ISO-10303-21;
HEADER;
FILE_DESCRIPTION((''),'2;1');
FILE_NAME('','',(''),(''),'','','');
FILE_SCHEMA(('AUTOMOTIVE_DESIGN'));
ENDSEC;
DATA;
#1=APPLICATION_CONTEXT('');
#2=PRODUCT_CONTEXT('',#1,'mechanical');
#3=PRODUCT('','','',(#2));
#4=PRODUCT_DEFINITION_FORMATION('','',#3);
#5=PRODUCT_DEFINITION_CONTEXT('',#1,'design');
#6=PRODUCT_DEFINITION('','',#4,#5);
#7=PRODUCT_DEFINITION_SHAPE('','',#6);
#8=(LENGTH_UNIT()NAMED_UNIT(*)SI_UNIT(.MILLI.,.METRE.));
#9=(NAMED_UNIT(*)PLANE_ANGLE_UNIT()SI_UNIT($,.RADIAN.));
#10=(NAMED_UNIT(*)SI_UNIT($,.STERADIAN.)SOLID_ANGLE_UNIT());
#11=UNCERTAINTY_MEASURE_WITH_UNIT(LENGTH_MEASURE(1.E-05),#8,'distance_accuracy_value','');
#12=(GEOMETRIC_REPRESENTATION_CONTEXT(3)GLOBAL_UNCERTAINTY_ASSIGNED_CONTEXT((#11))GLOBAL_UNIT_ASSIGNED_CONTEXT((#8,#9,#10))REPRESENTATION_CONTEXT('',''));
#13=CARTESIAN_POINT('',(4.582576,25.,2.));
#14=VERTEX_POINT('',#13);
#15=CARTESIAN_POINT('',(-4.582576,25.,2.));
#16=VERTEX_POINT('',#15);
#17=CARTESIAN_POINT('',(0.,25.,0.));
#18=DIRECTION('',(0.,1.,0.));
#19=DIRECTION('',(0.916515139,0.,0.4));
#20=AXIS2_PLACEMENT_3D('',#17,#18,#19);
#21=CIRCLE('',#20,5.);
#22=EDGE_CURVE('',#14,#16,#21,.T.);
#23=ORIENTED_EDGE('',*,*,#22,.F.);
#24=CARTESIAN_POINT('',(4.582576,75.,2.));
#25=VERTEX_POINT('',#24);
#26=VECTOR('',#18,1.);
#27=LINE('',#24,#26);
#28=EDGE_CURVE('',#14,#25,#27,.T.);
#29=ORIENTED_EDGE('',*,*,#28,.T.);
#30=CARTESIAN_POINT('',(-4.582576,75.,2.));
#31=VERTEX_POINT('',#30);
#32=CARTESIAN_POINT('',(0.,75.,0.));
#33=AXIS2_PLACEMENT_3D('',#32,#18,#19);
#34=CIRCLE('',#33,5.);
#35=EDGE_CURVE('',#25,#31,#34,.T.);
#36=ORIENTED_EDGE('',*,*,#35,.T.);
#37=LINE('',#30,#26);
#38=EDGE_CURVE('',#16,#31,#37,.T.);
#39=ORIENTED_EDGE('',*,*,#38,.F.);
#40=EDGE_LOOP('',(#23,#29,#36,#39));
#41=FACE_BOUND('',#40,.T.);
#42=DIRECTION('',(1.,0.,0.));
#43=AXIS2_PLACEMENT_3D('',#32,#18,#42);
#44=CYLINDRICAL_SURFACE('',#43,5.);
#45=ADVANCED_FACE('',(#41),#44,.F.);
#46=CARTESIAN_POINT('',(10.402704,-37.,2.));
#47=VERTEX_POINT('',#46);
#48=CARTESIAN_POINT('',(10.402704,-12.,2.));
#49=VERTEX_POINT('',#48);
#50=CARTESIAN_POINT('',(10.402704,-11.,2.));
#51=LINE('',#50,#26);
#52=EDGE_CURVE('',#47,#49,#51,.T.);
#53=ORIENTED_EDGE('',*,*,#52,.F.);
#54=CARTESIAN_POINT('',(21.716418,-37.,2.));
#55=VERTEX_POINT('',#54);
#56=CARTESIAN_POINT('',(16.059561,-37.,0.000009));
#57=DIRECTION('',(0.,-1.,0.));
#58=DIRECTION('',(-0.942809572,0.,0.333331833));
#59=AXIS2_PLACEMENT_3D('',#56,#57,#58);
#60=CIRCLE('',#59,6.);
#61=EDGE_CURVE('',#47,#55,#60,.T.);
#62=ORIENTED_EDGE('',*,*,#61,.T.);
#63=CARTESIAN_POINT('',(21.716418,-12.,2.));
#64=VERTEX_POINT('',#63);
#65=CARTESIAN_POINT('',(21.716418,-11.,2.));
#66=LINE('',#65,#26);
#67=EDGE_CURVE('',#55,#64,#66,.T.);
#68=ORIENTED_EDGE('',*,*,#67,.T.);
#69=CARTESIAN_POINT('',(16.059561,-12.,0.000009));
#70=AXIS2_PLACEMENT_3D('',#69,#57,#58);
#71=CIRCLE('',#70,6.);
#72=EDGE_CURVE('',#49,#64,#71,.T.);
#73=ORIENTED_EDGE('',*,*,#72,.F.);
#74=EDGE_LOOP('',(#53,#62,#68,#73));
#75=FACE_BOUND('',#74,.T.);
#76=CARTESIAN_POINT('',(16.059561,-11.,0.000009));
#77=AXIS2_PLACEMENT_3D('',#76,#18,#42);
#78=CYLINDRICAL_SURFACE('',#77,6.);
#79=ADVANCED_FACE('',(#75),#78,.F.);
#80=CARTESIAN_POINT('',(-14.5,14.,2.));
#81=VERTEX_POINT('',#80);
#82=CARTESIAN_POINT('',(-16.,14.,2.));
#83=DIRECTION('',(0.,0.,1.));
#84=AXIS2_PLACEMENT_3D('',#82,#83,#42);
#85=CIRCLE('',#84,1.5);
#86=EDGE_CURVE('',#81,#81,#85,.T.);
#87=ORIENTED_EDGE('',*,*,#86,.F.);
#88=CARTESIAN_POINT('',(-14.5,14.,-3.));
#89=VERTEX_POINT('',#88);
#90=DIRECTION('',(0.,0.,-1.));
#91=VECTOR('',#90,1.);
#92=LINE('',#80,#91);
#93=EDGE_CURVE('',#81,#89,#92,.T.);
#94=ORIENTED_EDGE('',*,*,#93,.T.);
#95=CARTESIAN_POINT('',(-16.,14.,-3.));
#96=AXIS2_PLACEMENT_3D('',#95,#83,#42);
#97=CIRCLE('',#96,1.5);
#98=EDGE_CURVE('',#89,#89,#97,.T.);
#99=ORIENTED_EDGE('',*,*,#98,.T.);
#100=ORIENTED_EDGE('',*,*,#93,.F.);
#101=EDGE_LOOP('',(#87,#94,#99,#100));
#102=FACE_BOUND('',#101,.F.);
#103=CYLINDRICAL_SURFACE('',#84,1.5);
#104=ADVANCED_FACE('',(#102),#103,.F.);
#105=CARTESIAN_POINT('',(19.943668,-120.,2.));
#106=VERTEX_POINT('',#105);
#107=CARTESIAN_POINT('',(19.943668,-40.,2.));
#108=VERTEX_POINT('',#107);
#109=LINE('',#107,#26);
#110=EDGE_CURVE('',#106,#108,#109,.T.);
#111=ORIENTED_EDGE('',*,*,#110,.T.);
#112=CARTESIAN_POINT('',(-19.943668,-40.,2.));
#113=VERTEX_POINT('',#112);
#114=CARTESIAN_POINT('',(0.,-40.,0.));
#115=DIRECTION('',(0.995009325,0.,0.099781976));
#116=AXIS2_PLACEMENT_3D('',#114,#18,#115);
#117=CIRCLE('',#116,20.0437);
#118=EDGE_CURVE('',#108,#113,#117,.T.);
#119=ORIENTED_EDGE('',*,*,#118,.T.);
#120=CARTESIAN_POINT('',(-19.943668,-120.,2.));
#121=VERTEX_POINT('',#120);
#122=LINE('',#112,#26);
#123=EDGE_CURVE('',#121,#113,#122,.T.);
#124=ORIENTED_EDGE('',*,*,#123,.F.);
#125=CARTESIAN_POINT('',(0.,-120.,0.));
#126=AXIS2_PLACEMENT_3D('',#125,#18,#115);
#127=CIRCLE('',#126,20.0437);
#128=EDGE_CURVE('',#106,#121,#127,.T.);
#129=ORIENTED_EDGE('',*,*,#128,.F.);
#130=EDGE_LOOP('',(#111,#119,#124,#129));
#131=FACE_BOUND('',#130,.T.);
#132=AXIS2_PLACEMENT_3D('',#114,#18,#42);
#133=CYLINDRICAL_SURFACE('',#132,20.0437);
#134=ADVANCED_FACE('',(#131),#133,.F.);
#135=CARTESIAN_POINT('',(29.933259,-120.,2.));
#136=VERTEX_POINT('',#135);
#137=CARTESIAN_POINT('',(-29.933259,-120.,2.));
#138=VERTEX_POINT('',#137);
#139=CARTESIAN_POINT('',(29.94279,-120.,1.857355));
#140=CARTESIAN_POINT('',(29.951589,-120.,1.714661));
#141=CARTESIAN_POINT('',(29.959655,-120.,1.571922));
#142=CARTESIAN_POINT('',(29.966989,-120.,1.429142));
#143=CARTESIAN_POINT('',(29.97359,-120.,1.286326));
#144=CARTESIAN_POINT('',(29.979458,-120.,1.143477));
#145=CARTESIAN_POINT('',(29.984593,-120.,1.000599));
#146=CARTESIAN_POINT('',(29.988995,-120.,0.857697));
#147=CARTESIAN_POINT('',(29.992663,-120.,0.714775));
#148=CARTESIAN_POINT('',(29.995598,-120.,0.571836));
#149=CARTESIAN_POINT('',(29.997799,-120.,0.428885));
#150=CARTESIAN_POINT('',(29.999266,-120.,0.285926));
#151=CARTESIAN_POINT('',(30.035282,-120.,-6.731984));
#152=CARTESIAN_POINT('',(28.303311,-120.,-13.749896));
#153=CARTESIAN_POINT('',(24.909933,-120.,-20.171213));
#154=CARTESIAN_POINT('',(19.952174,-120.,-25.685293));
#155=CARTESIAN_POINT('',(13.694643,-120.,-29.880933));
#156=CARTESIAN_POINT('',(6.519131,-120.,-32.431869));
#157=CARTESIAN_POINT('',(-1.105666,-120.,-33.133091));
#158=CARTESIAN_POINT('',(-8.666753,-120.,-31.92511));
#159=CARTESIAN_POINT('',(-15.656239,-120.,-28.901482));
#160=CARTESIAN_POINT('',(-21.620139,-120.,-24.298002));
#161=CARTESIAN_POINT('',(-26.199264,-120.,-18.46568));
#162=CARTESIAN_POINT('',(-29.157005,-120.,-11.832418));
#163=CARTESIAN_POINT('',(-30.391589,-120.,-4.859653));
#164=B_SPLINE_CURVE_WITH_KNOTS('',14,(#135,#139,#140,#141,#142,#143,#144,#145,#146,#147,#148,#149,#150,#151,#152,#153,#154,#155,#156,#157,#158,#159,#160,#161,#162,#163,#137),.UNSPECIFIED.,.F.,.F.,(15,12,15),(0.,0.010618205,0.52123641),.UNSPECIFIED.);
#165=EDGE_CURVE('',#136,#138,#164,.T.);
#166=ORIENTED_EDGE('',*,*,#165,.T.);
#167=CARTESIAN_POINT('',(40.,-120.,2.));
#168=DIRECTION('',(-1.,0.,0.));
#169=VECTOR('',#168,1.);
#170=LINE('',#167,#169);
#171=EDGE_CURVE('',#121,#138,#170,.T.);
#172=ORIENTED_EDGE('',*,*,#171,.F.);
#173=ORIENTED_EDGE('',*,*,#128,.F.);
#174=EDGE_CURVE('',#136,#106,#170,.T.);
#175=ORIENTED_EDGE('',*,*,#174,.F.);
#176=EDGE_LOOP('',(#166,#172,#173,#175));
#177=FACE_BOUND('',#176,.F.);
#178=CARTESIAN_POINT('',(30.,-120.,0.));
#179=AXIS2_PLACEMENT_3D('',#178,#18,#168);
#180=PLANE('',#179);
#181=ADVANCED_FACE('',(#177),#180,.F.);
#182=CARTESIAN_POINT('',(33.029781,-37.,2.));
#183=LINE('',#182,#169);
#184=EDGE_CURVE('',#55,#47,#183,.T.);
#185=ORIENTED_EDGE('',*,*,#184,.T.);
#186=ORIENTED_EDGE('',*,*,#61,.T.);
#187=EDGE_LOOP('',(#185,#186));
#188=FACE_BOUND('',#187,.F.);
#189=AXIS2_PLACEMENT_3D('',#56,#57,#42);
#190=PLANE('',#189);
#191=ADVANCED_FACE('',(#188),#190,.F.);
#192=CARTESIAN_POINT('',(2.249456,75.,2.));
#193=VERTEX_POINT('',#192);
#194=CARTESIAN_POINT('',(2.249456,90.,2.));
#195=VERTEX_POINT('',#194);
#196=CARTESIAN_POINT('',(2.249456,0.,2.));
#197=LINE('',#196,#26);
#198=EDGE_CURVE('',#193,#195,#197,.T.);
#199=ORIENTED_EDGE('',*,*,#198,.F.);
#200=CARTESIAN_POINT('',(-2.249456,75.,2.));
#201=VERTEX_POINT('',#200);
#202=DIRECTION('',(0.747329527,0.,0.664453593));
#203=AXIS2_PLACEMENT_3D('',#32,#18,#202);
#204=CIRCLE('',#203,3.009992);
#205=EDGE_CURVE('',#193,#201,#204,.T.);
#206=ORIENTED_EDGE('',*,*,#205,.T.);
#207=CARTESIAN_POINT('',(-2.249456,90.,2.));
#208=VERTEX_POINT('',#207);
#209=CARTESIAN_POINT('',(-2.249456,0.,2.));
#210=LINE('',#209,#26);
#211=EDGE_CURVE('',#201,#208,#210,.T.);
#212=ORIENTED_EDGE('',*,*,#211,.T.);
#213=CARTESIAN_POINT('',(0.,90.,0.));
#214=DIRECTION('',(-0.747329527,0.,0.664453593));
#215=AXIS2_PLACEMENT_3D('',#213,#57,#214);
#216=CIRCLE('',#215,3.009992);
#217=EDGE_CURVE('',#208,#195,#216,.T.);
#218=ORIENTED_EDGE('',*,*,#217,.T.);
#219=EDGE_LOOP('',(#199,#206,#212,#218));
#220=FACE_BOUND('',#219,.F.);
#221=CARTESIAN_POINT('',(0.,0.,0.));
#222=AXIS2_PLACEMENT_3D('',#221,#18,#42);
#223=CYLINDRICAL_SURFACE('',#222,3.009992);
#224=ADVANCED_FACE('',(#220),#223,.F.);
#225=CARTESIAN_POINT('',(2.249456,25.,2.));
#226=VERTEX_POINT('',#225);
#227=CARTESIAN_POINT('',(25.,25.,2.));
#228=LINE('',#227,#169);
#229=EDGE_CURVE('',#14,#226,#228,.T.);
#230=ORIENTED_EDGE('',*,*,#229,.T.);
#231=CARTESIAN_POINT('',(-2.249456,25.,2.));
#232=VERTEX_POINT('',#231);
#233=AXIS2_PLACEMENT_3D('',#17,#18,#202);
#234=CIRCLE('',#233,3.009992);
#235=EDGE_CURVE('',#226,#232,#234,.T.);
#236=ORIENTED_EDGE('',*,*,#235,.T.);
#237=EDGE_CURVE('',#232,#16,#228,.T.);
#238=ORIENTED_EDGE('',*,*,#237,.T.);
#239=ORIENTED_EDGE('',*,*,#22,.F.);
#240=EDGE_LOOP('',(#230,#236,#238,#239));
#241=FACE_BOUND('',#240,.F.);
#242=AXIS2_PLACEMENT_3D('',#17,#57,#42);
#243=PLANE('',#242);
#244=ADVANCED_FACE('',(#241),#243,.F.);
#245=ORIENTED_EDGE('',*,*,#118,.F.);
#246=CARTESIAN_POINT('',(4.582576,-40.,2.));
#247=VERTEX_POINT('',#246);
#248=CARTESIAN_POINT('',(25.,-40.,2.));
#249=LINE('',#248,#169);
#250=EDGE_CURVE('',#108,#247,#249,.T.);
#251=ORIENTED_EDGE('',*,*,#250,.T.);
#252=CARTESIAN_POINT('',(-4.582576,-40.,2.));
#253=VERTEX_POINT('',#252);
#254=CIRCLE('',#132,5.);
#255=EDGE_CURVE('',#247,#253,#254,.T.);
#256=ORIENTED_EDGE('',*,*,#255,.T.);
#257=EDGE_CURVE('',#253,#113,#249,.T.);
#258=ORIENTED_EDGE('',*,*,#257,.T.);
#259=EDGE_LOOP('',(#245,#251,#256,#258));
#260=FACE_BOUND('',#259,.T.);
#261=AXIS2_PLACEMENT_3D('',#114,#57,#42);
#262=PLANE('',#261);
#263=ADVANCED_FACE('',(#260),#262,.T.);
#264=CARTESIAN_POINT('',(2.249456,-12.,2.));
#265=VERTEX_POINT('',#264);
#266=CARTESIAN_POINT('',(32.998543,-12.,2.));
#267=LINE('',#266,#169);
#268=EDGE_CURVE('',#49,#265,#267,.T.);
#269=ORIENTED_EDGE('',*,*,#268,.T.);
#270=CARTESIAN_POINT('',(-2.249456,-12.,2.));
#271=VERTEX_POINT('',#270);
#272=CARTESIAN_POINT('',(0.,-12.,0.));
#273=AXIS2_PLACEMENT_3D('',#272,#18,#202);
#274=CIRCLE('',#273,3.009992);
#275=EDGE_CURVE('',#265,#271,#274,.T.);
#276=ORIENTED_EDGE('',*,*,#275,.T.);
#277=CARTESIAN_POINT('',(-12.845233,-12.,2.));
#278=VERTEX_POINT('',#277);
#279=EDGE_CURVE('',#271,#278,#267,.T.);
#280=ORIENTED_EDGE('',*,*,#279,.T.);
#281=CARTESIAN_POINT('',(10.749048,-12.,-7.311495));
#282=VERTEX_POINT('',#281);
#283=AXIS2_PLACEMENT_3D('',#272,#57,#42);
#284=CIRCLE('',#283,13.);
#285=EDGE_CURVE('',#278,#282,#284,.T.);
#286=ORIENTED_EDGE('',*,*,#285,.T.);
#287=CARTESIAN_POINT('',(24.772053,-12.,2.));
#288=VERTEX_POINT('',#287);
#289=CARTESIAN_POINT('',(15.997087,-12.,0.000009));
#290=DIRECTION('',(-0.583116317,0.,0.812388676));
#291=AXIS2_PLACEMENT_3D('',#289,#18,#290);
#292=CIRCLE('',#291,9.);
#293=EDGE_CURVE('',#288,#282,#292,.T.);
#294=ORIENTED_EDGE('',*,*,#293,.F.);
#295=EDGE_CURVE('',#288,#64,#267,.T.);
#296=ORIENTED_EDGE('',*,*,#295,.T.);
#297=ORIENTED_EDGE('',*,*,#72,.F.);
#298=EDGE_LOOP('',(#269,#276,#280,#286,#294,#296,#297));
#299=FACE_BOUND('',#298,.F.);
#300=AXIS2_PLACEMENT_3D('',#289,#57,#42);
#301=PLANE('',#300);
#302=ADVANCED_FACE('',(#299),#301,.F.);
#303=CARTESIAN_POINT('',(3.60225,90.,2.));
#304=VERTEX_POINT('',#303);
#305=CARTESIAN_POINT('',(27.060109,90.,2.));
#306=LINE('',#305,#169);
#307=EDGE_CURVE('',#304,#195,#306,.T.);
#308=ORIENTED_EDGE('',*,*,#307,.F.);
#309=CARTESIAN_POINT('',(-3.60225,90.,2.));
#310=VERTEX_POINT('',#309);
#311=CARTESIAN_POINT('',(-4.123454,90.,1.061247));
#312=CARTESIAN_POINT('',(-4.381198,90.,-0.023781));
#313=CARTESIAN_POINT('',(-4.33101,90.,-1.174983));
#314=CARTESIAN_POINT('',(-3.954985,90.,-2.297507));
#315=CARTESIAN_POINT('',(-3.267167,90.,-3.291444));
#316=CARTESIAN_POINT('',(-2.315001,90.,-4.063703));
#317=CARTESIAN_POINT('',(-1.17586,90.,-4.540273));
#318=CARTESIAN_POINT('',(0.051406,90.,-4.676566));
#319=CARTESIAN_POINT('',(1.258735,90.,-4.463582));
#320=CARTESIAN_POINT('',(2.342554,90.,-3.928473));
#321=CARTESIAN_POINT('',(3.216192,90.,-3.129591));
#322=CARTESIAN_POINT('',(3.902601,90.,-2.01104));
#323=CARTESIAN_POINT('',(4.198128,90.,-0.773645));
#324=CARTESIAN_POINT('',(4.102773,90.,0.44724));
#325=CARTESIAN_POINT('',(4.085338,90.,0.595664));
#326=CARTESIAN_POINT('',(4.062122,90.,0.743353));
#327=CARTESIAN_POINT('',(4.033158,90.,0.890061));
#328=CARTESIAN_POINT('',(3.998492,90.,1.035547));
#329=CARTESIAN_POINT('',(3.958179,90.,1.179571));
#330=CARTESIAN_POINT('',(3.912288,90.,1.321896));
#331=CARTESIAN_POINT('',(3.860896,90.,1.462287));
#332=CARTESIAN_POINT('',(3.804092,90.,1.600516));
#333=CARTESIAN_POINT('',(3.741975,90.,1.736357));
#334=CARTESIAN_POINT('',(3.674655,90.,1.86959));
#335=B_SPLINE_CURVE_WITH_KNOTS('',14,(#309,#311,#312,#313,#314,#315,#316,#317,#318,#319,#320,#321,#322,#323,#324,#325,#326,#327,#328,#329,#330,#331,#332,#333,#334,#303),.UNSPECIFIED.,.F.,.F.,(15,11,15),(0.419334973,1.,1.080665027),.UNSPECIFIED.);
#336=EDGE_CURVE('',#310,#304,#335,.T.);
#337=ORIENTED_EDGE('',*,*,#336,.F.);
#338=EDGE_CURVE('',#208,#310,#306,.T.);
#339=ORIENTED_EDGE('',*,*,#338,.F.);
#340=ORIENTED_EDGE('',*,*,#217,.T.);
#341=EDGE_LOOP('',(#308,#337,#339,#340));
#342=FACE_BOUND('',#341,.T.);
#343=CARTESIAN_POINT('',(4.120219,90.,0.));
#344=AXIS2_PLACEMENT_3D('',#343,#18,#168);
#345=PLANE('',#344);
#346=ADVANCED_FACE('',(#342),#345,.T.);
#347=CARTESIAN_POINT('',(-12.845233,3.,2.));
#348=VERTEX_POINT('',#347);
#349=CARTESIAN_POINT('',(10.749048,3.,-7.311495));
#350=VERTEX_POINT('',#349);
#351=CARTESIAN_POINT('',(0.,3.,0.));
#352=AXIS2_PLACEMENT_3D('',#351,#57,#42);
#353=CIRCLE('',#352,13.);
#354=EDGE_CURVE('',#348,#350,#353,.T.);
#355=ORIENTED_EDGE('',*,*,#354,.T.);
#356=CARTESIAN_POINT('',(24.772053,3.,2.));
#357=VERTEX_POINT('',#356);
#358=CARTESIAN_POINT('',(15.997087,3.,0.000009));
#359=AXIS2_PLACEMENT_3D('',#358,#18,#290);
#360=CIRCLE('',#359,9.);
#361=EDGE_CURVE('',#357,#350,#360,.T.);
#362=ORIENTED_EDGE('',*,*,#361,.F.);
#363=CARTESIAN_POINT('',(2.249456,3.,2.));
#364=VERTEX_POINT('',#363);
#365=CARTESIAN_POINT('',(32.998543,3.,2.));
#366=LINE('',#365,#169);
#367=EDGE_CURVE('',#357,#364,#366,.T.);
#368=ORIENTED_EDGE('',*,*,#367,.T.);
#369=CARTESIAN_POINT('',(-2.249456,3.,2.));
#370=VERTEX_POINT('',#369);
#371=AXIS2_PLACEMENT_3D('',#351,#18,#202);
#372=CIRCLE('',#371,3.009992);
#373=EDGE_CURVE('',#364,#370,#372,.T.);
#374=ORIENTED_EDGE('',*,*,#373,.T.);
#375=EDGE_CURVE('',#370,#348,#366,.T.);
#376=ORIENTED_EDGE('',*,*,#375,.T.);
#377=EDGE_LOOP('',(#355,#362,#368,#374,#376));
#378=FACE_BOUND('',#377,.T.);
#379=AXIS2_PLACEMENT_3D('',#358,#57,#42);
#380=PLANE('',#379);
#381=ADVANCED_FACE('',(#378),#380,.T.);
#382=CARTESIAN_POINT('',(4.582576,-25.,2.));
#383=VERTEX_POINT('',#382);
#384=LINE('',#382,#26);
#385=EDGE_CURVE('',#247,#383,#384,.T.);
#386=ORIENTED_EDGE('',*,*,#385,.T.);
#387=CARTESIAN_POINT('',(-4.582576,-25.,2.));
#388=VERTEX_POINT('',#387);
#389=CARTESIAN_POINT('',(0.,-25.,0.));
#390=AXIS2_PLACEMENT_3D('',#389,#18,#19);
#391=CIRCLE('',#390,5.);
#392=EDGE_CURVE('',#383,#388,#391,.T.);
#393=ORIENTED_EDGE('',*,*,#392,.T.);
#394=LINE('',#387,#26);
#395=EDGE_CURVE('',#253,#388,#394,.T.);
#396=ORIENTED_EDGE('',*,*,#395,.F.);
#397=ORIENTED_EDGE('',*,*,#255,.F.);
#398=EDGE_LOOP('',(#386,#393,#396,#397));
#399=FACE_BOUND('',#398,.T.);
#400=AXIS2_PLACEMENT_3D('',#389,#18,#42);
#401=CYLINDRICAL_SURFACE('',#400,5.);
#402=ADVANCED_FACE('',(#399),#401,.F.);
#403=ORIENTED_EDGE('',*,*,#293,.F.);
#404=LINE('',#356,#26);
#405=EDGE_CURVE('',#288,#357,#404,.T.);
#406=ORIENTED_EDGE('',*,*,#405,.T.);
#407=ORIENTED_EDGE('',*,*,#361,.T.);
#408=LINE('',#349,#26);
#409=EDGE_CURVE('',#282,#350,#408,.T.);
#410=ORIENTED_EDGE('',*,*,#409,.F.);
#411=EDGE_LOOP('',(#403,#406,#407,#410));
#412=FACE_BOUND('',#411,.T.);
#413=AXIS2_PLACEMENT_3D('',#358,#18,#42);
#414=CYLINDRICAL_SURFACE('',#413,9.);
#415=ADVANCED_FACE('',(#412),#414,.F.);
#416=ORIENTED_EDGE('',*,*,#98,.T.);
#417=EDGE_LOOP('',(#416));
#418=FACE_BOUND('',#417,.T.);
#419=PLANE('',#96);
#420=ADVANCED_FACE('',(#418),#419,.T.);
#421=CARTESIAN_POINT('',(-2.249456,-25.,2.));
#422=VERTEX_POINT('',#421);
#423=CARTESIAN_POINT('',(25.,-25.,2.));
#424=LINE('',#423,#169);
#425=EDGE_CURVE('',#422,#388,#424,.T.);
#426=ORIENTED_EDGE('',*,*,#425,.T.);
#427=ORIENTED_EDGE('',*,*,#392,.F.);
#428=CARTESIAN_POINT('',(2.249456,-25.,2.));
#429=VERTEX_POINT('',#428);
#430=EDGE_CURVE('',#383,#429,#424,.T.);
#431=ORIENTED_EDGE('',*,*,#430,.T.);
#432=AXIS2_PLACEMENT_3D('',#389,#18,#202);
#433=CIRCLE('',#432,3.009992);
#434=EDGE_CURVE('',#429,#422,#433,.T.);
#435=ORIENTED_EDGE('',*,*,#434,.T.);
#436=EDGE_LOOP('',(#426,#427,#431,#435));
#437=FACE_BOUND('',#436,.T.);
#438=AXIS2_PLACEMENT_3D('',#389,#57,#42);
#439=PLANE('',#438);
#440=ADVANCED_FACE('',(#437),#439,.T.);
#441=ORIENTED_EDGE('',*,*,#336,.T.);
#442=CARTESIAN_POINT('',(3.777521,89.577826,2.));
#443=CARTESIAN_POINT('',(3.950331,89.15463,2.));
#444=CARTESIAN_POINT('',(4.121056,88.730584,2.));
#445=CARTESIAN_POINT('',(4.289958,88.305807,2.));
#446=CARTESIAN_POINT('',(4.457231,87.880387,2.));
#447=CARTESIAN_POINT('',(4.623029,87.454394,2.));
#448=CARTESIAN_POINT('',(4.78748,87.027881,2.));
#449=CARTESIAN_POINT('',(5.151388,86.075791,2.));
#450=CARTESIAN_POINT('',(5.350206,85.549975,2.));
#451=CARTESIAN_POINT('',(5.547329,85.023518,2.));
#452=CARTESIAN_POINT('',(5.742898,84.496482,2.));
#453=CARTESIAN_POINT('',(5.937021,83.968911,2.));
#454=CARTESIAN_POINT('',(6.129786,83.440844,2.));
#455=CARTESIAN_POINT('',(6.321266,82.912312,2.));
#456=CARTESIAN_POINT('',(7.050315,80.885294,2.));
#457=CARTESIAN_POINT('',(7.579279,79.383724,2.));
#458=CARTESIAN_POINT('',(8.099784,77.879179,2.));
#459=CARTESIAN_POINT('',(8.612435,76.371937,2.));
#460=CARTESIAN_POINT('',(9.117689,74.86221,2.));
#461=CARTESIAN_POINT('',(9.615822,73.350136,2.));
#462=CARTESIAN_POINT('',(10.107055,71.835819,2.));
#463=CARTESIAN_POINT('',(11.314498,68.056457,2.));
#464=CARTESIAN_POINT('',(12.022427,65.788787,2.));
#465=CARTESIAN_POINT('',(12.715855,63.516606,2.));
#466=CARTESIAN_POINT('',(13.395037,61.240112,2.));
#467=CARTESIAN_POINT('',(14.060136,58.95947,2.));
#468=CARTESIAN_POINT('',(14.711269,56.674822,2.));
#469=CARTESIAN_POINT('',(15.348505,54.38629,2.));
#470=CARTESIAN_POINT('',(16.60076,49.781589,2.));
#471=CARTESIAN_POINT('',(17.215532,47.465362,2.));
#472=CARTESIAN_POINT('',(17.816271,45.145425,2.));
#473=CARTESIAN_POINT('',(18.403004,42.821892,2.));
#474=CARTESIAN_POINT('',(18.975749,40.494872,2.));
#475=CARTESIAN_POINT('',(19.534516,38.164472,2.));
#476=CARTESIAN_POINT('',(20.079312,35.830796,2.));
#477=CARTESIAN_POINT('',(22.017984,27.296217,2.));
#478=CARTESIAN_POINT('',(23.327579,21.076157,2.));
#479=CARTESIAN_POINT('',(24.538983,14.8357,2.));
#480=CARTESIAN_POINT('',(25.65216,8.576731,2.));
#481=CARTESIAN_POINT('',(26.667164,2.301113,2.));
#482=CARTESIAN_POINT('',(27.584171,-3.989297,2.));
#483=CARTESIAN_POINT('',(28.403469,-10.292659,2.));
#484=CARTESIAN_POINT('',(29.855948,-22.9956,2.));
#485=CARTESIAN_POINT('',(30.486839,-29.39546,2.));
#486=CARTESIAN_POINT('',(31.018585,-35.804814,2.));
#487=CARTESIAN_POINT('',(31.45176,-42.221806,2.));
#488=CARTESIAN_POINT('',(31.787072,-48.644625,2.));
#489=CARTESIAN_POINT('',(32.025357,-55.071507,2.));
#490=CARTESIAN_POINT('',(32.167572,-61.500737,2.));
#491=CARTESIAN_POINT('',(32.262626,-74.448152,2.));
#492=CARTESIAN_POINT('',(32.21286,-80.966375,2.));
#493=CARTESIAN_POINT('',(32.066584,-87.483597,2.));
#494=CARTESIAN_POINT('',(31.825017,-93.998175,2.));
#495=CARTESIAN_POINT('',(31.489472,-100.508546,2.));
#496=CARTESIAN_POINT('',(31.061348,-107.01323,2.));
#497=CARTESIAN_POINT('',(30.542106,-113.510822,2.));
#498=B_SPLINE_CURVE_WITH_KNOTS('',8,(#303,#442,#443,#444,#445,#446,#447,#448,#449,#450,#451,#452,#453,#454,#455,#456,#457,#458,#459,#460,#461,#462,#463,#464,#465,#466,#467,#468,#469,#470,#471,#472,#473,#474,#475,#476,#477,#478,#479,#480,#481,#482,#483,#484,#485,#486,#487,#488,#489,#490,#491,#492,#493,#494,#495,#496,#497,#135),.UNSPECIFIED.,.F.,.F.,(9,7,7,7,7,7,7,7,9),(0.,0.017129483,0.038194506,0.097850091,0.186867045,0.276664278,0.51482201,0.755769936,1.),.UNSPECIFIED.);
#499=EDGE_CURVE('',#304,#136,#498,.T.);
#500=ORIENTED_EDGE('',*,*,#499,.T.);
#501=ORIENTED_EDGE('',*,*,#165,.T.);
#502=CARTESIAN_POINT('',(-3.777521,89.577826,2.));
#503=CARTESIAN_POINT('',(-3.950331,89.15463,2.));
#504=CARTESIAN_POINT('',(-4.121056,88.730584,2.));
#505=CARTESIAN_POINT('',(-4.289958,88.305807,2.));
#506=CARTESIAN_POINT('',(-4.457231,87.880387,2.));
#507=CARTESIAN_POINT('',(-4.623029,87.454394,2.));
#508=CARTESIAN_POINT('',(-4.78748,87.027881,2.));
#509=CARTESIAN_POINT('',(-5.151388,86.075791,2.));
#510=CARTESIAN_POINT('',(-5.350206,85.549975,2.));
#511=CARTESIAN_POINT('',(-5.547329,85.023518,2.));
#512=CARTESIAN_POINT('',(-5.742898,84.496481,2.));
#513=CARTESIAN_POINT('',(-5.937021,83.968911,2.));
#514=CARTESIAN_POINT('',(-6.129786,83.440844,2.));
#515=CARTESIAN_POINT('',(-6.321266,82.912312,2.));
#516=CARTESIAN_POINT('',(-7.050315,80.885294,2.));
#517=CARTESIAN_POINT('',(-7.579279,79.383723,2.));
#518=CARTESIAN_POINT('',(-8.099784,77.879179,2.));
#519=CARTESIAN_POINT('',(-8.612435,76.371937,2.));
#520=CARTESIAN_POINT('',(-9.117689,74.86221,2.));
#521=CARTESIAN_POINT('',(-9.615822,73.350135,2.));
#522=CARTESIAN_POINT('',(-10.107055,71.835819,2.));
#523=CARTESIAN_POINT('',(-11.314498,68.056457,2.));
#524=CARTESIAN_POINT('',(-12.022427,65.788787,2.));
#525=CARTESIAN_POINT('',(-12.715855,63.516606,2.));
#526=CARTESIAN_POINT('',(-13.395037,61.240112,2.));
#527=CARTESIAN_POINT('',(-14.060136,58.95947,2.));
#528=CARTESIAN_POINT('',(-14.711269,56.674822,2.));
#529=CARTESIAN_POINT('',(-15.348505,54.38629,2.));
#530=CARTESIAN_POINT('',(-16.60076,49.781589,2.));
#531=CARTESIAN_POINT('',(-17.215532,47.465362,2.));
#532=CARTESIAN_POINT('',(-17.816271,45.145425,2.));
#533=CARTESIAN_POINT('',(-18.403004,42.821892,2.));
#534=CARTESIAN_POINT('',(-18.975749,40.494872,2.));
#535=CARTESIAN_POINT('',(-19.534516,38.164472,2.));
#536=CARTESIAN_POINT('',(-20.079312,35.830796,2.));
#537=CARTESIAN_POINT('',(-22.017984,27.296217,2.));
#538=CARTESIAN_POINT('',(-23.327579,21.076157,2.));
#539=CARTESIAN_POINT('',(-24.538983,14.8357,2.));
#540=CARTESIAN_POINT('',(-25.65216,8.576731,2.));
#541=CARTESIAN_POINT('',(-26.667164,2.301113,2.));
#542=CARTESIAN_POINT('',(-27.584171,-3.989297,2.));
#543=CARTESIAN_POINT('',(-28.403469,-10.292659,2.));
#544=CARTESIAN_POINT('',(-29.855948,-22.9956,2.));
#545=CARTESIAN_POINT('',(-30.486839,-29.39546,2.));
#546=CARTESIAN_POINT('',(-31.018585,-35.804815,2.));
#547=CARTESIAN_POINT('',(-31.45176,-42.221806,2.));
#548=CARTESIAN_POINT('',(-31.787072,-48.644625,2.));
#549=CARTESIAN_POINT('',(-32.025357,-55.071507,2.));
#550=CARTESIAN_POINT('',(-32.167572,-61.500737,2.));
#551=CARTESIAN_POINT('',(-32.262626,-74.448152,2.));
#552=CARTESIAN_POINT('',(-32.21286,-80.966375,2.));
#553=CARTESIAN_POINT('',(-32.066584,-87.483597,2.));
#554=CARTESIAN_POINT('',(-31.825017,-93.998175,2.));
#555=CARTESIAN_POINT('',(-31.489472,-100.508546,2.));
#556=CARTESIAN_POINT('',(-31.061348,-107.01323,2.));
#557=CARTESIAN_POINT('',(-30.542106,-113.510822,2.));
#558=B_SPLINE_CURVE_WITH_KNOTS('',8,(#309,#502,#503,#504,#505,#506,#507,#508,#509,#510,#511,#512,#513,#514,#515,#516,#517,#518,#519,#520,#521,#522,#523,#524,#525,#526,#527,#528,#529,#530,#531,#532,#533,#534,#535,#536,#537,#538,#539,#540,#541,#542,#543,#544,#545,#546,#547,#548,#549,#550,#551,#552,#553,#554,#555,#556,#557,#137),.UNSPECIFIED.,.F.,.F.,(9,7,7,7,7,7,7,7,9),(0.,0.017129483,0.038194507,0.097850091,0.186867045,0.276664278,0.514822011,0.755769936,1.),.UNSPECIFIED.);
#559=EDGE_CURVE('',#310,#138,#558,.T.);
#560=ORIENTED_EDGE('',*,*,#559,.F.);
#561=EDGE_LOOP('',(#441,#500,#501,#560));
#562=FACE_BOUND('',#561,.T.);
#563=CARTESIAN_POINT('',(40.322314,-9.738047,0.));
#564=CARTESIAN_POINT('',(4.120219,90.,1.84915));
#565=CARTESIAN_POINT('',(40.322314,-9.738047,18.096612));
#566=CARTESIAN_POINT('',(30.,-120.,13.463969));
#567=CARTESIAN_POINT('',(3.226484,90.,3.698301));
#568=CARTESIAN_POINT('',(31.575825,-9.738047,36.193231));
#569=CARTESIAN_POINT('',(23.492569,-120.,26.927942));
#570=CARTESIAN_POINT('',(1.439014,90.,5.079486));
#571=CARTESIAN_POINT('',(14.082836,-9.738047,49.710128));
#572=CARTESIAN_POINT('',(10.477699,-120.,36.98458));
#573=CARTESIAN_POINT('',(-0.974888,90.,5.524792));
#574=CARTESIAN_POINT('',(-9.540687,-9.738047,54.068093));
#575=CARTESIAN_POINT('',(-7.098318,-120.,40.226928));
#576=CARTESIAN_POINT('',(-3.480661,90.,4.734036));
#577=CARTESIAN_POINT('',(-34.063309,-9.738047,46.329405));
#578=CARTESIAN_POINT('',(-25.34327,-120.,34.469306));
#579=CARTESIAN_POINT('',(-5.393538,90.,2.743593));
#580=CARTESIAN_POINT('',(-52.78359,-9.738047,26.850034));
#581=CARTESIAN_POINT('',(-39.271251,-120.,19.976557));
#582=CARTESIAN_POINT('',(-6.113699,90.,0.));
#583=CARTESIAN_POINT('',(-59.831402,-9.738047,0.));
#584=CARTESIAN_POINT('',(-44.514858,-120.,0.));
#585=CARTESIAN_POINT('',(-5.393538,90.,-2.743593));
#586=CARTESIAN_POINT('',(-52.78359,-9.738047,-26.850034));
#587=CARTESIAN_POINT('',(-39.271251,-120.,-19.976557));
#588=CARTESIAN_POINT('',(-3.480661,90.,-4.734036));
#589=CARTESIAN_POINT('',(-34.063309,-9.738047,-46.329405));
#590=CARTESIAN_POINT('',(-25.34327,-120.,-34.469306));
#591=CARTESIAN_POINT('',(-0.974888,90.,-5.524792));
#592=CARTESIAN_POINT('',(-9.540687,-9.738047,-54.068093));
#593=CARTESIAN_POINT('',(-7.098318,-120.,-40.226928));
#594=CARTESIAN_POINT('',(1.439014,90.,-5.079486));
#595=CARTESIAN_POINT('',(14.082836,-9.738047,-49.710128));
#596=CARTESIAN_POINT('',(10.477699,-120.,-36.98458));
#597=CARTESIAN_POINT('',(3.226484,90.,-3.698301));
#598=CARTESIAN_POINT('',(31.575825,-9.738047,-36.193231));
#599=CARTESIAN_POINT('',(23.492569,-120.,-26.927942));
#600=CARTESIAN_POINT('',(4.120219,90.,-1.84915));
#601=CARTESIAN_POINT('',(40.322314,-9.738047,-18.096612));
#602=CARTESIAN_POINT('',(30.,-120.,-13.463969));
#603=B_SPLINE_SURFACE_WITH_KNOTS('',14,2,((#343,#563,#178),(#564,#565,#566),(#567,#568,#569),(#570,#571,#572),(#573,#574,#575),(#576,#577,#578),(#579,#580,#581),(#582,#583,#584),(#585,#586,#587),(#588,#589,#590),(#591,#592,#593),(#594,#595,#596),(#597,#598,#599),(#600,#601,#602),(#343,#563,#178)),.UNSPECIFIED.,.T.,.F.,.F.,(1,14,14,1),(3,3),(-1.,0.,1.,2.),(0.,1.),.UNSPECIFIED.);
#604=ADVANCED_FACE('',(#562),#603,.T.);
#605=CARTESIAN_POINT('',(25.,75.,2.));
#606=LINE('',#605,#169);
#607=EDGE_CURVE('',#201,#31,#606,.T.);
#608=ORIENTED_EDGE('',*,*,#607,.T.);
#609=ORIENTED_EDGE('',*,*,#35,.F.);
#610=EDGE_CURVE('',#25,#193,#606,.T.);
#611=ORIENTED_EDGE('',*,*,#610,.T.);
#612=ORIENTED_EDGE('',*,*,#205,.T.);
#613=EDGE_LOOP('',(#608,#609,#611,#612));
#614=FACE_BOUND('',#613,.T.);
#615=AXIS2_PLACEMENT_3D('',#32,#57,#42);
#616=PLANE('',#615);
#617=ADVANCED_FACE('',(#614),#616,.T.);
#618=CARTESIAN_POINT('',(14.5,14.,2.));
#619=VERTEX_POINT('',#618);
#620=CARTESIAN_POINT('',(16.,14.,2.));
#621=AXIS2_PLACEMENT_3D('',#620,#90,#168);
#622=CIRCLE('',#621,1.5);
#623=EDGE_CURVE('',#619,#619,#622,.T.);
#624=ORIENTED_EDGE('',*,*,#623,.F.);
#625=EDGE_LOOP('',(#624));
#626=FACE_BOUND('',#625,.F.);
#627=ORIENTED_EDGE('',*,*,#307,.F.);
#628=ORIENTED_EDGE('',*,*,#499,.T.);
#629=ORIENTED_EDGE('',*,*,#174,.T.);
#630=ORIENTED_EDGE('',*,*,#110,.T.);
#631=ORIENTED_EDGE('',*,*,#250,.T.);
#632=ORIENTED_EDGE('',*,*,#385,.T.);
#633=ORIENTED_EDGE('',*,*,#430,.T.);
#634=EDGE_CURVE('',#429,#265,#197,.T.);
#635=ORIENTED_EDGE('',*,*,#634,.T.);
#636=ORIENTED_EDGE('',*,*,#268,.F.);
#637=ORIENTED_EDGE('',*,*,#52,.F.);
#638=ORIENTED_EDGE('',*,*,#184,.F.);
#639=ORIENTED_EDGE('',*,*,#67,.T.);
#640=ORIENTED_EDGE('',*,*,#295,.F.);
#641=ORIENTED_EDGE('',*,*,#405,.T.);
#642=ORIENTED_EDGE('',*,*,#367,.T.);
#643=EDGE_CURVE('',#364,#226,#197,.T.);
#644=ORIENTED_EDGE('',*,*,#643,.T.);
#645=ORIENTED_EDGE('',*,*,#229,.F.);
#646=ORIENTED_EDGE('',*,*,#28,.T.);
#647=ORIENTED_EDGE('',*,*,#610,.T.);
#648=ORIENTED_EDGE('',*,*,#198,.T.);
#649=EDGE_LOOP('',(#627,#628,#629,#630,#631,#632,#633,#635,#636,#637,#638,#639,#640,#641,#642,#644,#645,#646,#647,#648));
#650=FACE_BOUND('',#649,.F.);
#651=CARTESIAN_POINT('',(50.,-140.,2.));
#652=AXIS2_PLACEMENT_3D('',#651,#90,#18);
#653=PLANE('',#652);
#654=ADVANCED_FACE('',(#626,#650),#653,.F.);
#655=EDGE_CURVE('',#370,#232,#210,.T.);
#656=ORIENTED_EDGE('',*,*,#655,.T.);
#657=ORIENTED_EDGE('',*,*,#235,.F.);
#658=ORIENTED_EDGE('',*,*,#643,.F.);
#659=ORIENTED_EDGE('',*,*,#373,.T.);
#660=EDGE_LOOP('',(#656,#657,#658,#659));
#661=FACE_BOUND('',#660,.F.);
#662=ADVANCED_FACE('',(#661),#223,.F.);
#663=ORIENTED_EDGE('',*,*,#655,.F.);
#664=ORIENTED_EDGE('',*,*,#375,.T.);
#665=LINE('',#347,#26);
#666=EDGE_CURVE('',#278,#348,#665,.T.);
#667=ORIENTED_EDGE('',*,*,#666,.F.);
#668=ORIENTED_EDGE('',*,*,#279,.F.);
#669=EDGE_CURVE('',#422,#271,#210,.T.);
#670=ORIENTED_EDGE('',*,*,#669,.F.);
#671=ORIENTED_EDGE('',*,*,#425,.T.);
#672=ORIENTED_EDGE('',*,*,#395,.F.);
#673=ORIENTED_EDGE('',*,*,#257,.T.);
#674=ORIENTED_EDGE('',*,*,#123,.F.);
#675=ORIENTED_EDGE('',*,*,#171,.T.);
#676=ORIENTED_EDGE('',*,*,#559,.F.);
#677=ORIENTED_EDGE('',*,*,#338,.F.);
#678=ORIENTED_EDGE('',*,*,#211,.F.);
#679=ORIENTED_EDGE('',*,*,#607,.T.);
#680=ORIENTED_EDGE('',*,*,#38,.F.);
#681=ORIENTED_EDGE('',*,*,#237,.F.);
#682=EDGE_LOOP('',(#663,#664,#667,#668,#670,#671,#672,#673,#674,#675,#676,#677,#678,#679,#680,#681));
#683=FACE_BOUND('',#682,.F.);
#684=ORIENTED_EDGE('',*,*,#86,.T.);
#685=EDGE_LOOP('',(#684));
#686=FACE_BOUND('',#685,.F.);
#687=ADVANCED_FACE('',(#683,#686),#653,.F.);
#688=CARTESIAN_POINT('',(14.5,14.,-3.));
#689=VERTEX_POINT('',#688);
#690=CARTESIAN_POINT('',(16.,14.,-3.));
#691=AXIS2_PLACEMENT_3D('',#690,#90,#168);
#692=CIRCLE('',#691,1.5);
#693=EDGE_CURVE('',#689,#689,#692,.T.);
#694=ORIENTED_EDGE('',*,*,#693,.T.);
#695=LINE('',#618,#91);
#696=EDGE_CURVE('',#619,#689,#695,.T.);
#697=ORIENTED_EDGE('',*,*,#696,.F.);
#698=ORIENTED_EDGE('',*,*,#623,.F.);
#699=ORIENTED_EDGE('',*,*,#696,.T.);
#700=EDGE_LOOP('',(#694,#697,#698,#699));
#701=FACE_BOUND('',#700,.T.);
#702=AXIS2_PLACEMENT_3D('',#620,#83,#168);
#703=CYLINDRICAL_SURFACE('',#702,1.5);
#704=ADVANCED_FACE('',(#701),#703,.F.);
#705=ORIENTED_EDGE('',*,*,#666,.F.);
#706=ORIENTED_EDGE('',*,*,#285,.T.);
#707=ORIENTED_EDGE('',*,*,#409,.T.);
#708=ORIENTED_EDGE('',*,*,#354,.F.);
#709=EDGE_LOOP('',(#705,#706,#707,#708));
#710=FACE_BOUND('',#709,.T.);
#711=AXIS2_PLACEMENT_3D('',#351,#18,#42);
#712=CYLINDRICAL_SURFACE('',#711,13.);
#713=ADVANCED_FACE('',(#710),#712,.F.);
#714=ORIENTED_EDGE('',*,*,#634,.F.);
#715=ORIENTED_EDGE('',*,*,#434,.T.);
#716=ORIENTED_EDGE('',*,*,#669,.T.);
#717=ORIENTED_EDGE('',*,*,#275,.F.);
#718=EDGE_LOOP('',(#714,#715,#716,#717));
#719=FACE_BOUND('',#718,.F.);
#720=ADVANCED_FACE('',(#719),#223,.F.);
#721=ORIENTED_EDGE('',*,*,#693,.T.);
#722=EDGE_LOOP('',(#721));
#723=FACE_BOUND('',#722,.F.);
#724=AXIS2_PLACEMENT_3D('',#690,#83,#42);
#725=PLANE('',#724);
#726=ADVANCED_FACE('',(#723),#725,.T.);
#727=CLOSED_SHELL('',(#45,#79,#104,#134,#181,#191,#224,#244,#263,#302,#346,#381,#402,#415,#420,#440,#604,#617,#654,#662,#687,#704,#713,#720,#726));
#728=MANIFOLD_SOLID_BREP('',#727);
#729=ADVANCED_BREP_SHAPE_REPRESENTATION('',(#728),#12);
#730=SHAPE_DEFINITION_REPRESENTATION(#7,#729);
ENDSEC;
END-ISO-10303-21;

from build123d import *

# Parameters (mm, degrees)
SKETCH014_R       = 20.0437
PAD009_DEPTH      = 100
PAD_DEPTH         = 10
SKETCH006_R       = 3.009992
PAD002_DEPTH      = 100
FUSION_ROLL_ANGLE = 90
SKETCH011_R       = 5
PAD007_DEPTH      = 50
SKETCH010_R       = 5
PAD006_DEPTH      = 50
SKETCH008_R       = 13
PAD004_DEPTH      = 15
SKETCH009_R       = 9
PAD005_DEPTH      = 15
SKETCH013_R       = 6
PAD008_DEPTH      = 26
BOX_W             = 50
BOX_H             = 240
BOX_DEPTH         = 100
BOX_PITCH_ANGLE   = -90
SKETCH_R          = 4.120219
SKETCH001_R       = 27
SKETCH002_R       = 30
SKETCH015_R       = 1.5
POCKET_DEPTH      = 5


with BuildPart() as buco:
    # Sketch014 → Pad009 (new body)
    with BuildSketch(Plane.XZ.offset(40)):
        Circle(SKETCH014_R)
    extrude(amount=PAD009_DEPTH)


with BuildPart() as pad:
    # InvoluteGear → Pad (new body)
    with BuildSketch(Plane.XY):
        with BuildLine():
            Line((8.355513, -1.029758), (9.548181, -1.175965))
            add(Edge.make_bspline(
                [(9.548181, -1.175965), (9.5967, -1.178924), (9.742908, -1.18188), (9.988316, -1.135943)],
                knots=[0, 0, 0, 0, 1, 1, 1, 1], degree=3))
            add(Edge.make_bspline(
                [(9.988316, -1.135943), (10.281884, -1.080014), (10.705563, -0.954393), (11.230767, -0.676657)],
                knots=[0, 0, 0, 0, 1, 1, 1, 1], degree=3))
            ThreePointArc((11.230767, -0.676657), (11.251135, 0), (11.230767, 0.676657))
            add(Edge.make_bspline(
                [(11.230767, 0.676657), (10.705563, 0.954393), (10.281884, 1.080014), (9.988316, 1.135943)],
                knots=[0, 0, 0, 0, 1, 1, 1, 1], degree=3))
            add(Edge.make_bspline(
                [(9.988316, 1.135943), (9.742908, 1.18188), (9.5967, 1.178924), (9.548181, 1.175965)],
                knots=[0, 0, 0, 0, 1, 1, 1, 1], degree=3))
            Line((9.548181, 1.175965), (8.355513, 1.029758))
            ThreePointArc((8.355513, 1.029758), (7.956052, 1.132981), (7.734481, 1.48102))
            ThreePointArc((7.734481, 1.48102), (7.646167, 1.884611), (7.536808, 2.283014))
            ThreePointArc((7.536808, 2.283014), (7.571257, 2.694156), (7.876992, 2.971196))
            Line((7.876992, 2.971196), (9.000992, 3.395996))
            add(Edge.make_bspline(
                [(9.000992, 3.395996), (9.04533, 3.415923), (9.176163, 3.481252), (9.372113, 3.635975)],
                knots=[0, 0, 0, 0, 1, 1, 1, 1], degree=3))
            add(Edge.make_bspline(
                [(9.372113, 3.635975), (9.606064, 3.821924), (9.922834, 4.130051), (10.258808, 4.620047)],
                knots=[0, 0, 0, 0, 1, 1, 1, 1], degree=3))
            ThreePointArc((10.258808, 4.620047), (9.962385, 5.228663), (9.629892, 5.818348))
            add(Edge.make_bspline(
                [(9.629892, 5.818348), (9.035777, 5.820196), (8.602248, 5.734535), (8.316315, 5.647629)],
                knots=[0, 0, 0, 0, 1, 1, 1, 1], degree=3))
            add(Edge.make_bspline(
                [(8.316315, 5.647629), (8.077669, 5.574257), (7.949583, 5.503695), (7.907996, 5.478526)],
                knots=[0, 0, 0, 0, 1, 1, 1, 1], degree=3))
            Line((7.907996, 5.478526), (6.919887, 4.794806))
            ThreePointArc((6.919887, 4.794806), (6.518211, 4.700567), (6.160279, 4.905771))
            ThreePointArc((6.160279, 4.905771), (5.894522, 5.222091), (5.612542, 5.524038))
            ThreePointArc((5.612542, 5.524038), (5.451978, 5.904095), (5.593946, 6.291484))
            Line((5.593946, 6.291484), (6.391785, 7.189975))
            add(Edge.make_bspline(
                [(6.391785, 7.189975), (6.421783, 7.228224), (6.50727, 7.346872), (6.608872, 7.574934)],
                knots=[0, 0, 0, 0, 1, 1, 1, 1], degree=3))
            add(Edge.make_bspline(
                [(6.608872, 7.574934), (6.72961, 7.848306), (6.866903, 8.268349), (6.936681, 8.858355)],
                knots=[0, 0, 0, 0, 1, 1, 1, 1], degree=3))
            ThreePointArc((6.936681, 8.858355), (6.391373, 9.259502), (5.822925, 9.627125))
            add(Edge.make_bspline(
                [(5.822925, 9.627125), (5.296003, 9.352662), (4.951941, 9.075343), (4.739148, 8.865511)],
                knots=[0, 0, 0, 0, 1, 1, 1, 1], degree=3))
            add(Edge.make_bspline(
                [(4.739148, 8.865511), (4.561934, 8.68964), (4.481311, 8.567635), (4.456185, 8.526023)],
                knots=[0, 0, 0, 0, 1, 1, 1, 1], degree=3))
            Line((4.456185, 8.526023), (3.898999, 7.461421))
            ThreePointArc((3.898999, 7.461421), (3.587127, 7.191309), (3.17483, 7.206669))
            ThreePointArc((3.17483, 7.206669), (2.792513, 7.363253), (2.402511, 7.499571))
            ThreePointArc((2.402511, 7.499571), (2.083717, 7.761477), (2.029395, 8.170468))
            Line((2.029395, 8.170468), (2.318297, 9.336817))
            add(Edge.make_bspline(
                [(2.318297, 9.336817), (2.327083, 9.384626), (2.34764, 9.529411), (2.331619, 9.778567)],
                knots=[0, 0, 0, 0, 1, 1, 1, 1], degree=3))
            add(Edge.make_bspline(
                [(2.331619, 9.778567), (2.311484, 10.076736), (2.237847, 10.512468), (2.025443, 11.06732)],
                knots=[0, 0, 0, 0, 1, 1, 1, 1], degree=3))
            ThreePointArc((2.025443, 11.06732), (1.356174, 11.169101), (0.681996, 11.230444))
            add(Edge.make_bspline(
                [(0.681996, 11.230444), (0.342979, 10.742547), (0.167204, 10.337099), (0.076298, 10.052412)],
                knots=[0, 0, 0, 0, 1, 1, 1, 1], degree=3))
            add(Edge.make_bspline(
                [(0.076298, 10.052412), (0.001115, 9.814331), (-0.013574, 9.668833), (-0.016485, 9.620311)],
                knots=[0, 0, 0, 0, 1, 1, 1, 1], degree=3))
            Line((-0.016485, 9.620311), (-0.015104, 8.418716))
            ThreePointArc((-0.015104, 8.418716), (-0.165725, 8.034609), (-0.537933, 7.856606))
            ThreePointArc((-0.537933, 7.856606), (-0.949226, 7.817582), (-1.357907, 7.757043))
            ThreePointArc((-1.357907, 7.757043), (-1.761899, 7.840798), (-2.000066, 8.177698))
            Line((-2.000066, 8.177698), (-2.286285, 9.344707))
            add(Edge.make_bspline(
                [(-2.286285, 9.344707), (-2.300723, 9.391123), (-2.349806, 9.528877), (-2.479781, 9.742048)],
                knots=[0, 0, 0, 0, 1, 1, 1, 1], degree=3))
            add(Edge.make_bspline(
                [(-2.479781, 9.742048), (-2.636175, 9.996707), (-2.903872, 10.348308), (-3.349799, 10.740895)],
                knots=[0, 0, 0, 0, 1, 1, 1, 1], degree=3))
            ThreePointArc((-3.349799, 10.740895), (-3.989707, 10.519994), (-4.61517, 10.261003))
            add(Edge.make_bspline(
                [(-4.61517, 10.261003), (-4.688617, 9.671443), (-4.655837, 9.23075), (-4.60403, 8.936427)],
                knots=[0, 0, 0, 0, 1, 1, 1, 1], degree=3))
            add(Edge.make_bspline(
                [(-4.60403, 8.936427), (-4.559959, 8.690677), (-4.50535, 8.555018), (-4.485378, 8.510701)],
                knots=[0, 0, 0, 0, 1, 1, 1, 1], degree=3))
            Line((-4.485378, 8.510701), (-3.925746, 7.447383))
            ThreePointArc((-3.925746, 7.447383), (-3.880611, 7.037277), (-4.127463, 6.706689))
            ThreePointArc((-4.127463, 6.706689), (-4.47351, 6.480998), (-4.807244, 6.23747))
            ThreePointArc((-4.807244, 6.23747), (-5.203885, 6.123887), (-5.571336, 6.311515))
            Line((-5.571336, 6.311515), (-6.367107, 7.211837))
            add(Edge.make_bspline(
                [(-6.367107, 7.211837), (-6.401462, 7.246227), (-6.50894, 7.345392), (-6.723092, 7.473744)],
                knots=[0, 0, 0, 0, 1, 1, 1, 1], degree=3))
            add(Edge.make_bspline(
                [(-6.723092, 7.473744), (-6.979918, 7.626553), (-7.38035, 7.813474), (-7.957643, 7.953861)],
                knots=[0, 0, 0, 0, 1, 1, 1, 1], degree=3))
            ThreePointArc((-7.957643, 7.953861), (-8.421595, 7.460882), (-8.855056, 6.940891))
            add(Edge.make_bspline(
                [(-8.855056, 6.940891), (-8.646108, 6.384728), (-8.412283, 6.009748), (-8.229631, 5.773213)],
                knots=[0, 0, 0, 0, 1, 1, 1, 1], degree=3))
            add(Edge.make_bspline(
                [(-8.229631, 5.773213), (-8.076402, 5.576093), (-7.965005, 5.481352), (-7.926725, 5.451393)],
                knots=[0, 0, 0, 0, 1, 1, 1, 1], degree=3))
            Line((-7.926725, 5.451393), (-6.937047, 4.769945))
            ThreePointArc((-6.937047, 4.769945), (-6.706496, 4.427789), (-6.771441, 4.02035))
            ThreePointArc((-6.771441, 4.02035), (-6.972966, 3.659695), (-7.1553, 3.288967))
            ThreePointArc((-7.1553, 3.288967), (-7.453723, 3.004067), (-7.86628, 2.99944))
            Line((-7.86628, 2.99944), (-8.989301, 3.426823))
            add(Edge.make_bspline(
                [(-8.989301, 3.426823), (-9.035703, 3.441308), (-9.176954, 3.479167), (-9.426224, 3.493294)],
                knots=[0, 0, 0, 0, 1, 1, 1, 1], degree=3))
            add(Edge.make_bspline(
                [(-9.426224, 3.493294), (-9.724647, 3.509247), (-10.166078, 3.488669), (-10.742486, 3.344693)],
                knots=[0, 0, 0, 0, 1, 1, 1, 1], degree=3))
            ThreePointArc((-10.742486, 3.344693), (-10.924197, 2.692573), (-11.066356, 2.030704))
            add(Edge.make_bspline(
                [(-11.066356, 2.030704), (-10.62288, 1.635349), (-10.241575, 1.411985), (-9.969922, 1.287426)],
                knots=[0, 0, 0, 0, 1, 1, 1, 1], degree=3))
            add(Edge.make_bspline(
                [(-9.969922, 1.287426), (-9.742639, 1.184094), (-9.599973, 1.151974), (-9.552155, 1.143236)],
                knots=[0, 0, 0, 0, 1, 1, 1, 1], degree=3))
            Line((-9.552155, 1.143236), (-8.359154, 0.99977))
            ThreePointArc((-8.359154, 0.99977), (-7.996004, 0.803949), (-7.864163, 0.412998))
            ThreePointArc((-7.864163, 0.412998), (-7.875, 0), (-7.864163, -0.412998))
            ThreePointArc((-7.864163, -0.412998), (-7.996004, -0.803949), (-8.359154, -0.99977))
            Line((-8.359154, -0.99977), (-9.552155, -1.143236))
            add(Edge.make_bspline(
                [(-9.552155, -1.143236), (-9.599973, -1.151974), (-9.742639, -1.184094), (-9.969922, -1.287426)],
                knots=[0, 0, 0, 0, 1, 1, 1, 1], degree=3))
            add(Edge.make_bspline(
                [(-9.969922, -1.287426), (-10.241575, -1.411985), (-10.62288, -1.635349), (-11.066356, -2.030704)],
                knots=[0, 0, 0, 0, 1, 1, 1, 1], degree=3))
            ThreePointArc((-11.066356, -2.030704), (-10.924197, -2.692573), (-10.742486, -3.344693))
            add(Edge.make_bspline(
                [(-10.742486, -3.344693), (-10.166078, -3.488669), (-9.724647, -3.509247), (-9.426224, -3.493294)],
                knots=[0, 0, 0, 0, 1, 1, 1, 1], degree=3))
            add(Edge.make_bspline(
                [(-9.426224, -3.493294), (-9.176954, -3.479167), (-9.035703, -3.441308), (-8.989301, -3.426823)],
                knots=[0, 0, 0, 0, 1, 1, 1, 1], degree=3))
            Line((-8.989301, -3.426823), (-7.86628, -2.99944))
            ThreePointArc((-7.86628, -2.99944), (-7.453723, -3.004067), (-7.1553, -3.288967))
            ThreePointArc((-7.1553, -3.288967), (-6.972966, -3.659695), (-6.771441, -4.02035))
            ThreePointArc((-6.771441, -4.02035), (-6.706496, -4.427789), (-6.937047, -4.769945))
            Line((-6.937047, -4.769945), (-7.926725, -5.451393))
            add(Edge.make_bspline(
                [(-7.926725, -5.451393), (-7.965005, -5.481352), (-8.076402, -5.576093), (-8.229631, -5.773213)],
                knots=[0, 0, 0, 0, 1, 1, 1, 1], degree=3))
            add(Edge.make_bspline(
                [(-8.229631, -5.773213), (-8.412283, -6.009748), (-8.646108, -6.384728), (-8.855056, -6.940891)],
                knots=[0, 0, 0, 0, 1, 1, 1, 1], degree=3))
            ThreePointArc((-8.855056, -6.940891), (-8.421595, -7.460882), (-7.957643, -7.953861))
            add(Edge.make_bspline(
                [(-7.957643, -7.953861), (-7.38035, -7.813474), (-6.979918, -7.626553), (-6.723092, -7.473744)],
                knots=[0, 0, 0, 0, 1, 1, 1, 1], degree=3))
            add(Edge.make_bspline(
                [(-6.723092, -7.473744), (-6.50894, -7.345392), (-6.401462, -7.246227), (-6.367107, -7.211837)],
                knots=[0, 0, 0, 0, 1, 1, 1, 1], degree=3))
            Line((-6.367107, -7.211837), (-5.571336, -6.311515))
            ThreePointArc((-5.571336, -6.311515), (-5.203885, -6.123887), (-4.807244, -6.23747))
            ThreePointArc((-4.807244, -6.23747), (-4.47351, -6.480998), (-4.127463, -6.706689))
            ThreePointArc((-4.127463, -6.706689), (-3.880611, -7.037277), (-3.925746, -7.447383))
            Line((-3.925746, -7.447383), (-4.485378, -8.510701))
            add(Edge.make_bspline(
                [(-4.485378, -8.510701), (-4.50535, -8.555018), (-4.559959, -8.690677), (-4.60403, -8.936427)],
                knots=[0, 0, 0, 0, 1, 1, 1, 1], degree=3))
            add(Edge.make_bspline(
                [(-4.60403, -8.936427), (-4.655837, -9.23075), (-4.688617, -9.671443), (-4.61517, -10.261003)],
                knots=[0, 0, 0, 0, 1, 1, 1, 1], degree=3))
            ThreePointArc((-4.61517, -10.261003), (-3.989707, -10.519994), (-3.349799, -10.740895))
            add(Edge.make_bspline(
                [(-3.349799, -10.740895), (-2.903872, -10.348308), (-2.636175, -9.996707), (-2.479781, -9.742048)],
                knots=[0, 0, 0, 0, 1, 1, 1, 1], degree=3))
            add(Edge.make_bspline(
                [(-2.479781, -9.742048), (-2.349806, -9.528877), (-2.300723, -9.391123), (-2.286285, -9.344707)],
                knots=[0, 0, 0, 0, 1, 1, 1, 1], degree=3))
            Line((-2.286285, -9.344707), (-2.000066, -8.177698))
            ThreePointArc((-2.000066, -8.177698), (-1.761899, -7.840798), (-1.357907, -7.757043))
            ThreePointArc((-1.357907, -7.757043), (-0.949226, -7.817582), (-0.537933, -7.856606))
            ThreePointArc((-0.537933, -7.856606), (-0.165725, -8.034609), (-0.015104, -8.418716))
            Line((-0.015104, -8.418716), (-0.016485, -9.620311))
            add(Edge.make_bspline(
                [(-0.016485, -9.620311), (-0.013574, -9.668833), (0.001115, -9.814331), (0.076298, -10.052412)],
                knots=[0, 0, 0, 0, 1, 1, 1, 1], degree=3))
            add(Edge.make_bspline(
                [(0.076298, -10.052412), (0.167204, -10.337099), (0.342979, -10.742547), (0.681996, -11.230444)],
                knots=[0, 0, 0, 0, 1, 1, 1, 1], degree=3))
            ThreePointArc((0.681996, -11.230444), (1.356174, -11.169101), (2.025443, -11.06732))
            add(Edge.make_bspline(
                [(2.025443, -11.06732), (2.237847, -10.512468), (2.311484, -10.076736), (2.331619, -9.778567)],
                knots=[0, 0, 0, 0, 1, 1, 1, 1], degree=3))
            add(Edge.make_bspline(
                [(2.331619, -9.778567), (2.34764, -9.529411), (2.327083, -9.384626), (2.318297, -9.336817)],
                knots=[0, 0, 0, 0, 1, 1, 1, 1], degree=3))
            Line((2.318297, -9.336817), (2.029395, -8.170468))
            ThreePointArc((2.029395, -8.170468), (2.083717, -7.761477), (2.402511, -7.499571))
            ThreePointArc((2.402511, -7.499571), (2.792513, -7.363253), (3.17483, -7.206669))
            ThreePointArc((3.17483, -7.206669), (3.587127, -7.191309), (3.898999, -7.461421))
            Line((3.898999, -7.461421), (4.456185, -8.526023))
            add(Edge.make_bspline(
                [(4.456185, -8.526023), (4.481311, -8.567635), (4.561934, -8.68964), (4.739148, -8.865511)],
                knots=[0, 0, 0, 0, 1, 1, 1, 1], degree=3))
            add(Edge.make_bspline(
                [(4.739148, -8.865511), (4.951941, -9.075343), (5.296003, -9.352662), (5.822925, -9.627125)],
                knots=[0, 0, 0, 0, 1, 1, 1, 1], degree=3))
            ThreePointArc((5.822925, -9.627125), (6.391373, -9.259502), (6.936681, -8.858355))
            add(Edge.make_bspline(
                [(6.936681, -8.858355), (6.866903, -8.268349), (6.72961, -7.848306), (6.608872, -7.574934)],
                knots=[0, 0, 0, 0, 1, 1, 1, 1], degree=3))
            add(Edge.make_bspline(
                [(6.608872, -7.574934), (6.50727, -7.346872), (6.421783, -7.228224), (6.391785, -7.189975)],
                knots=[0, 0, 0, 0, 1, 1, 1, 1], degree=3))
            Line((6.391785, -7.189975), (5.593946, -6.291484))
            ThreePointArc((5.593946, -6.291484), (5.451978, -5.904095), (5.612542, -5.524038))
            ThreePointArc((5.612542, -5.524038), (5.894522, -5.222091), (6.160279, -4.905771))
            ThreePointArc((6.160279, -4.905771), (6.518211, -4.700567), (6.919887, -4.794806))
            Line((6.919887, -4.794806), (7.907996, -5.478526))
            add(Edge.make_bspline(
                [(7.907996, -5.478526), (7.949583, -5.503695), (8.077669, -5.574257), (8.316315, -5.647629)],
                knots=[0, 0, 0, 0, 1, 1, 1, 1], degree=3))
            add(Edge.make_bspline(
                [(8.316315, -5.647629), (8.602248, -5.734535), (9.035777, -5.820196), (9.629892, -5.818348)],
                knots=[0, 0, 0, 0, 1, 1, 1, 1], degree=3))
            ThreePointArc((9.629892, -5.818348), (9.962385, -5.228663), (10.258808, -4.620047))
            add(Edge.make_bspline(
                [(10.258808, -4.620047), (9.922834, -4.130051), (9.606064, -3.821924), (9.372113, -3.635975)],
                knots=[0, 0, 0, 0, 1, 1, 1, 1], degree=3))
            add(Edge.make_bspline(
                [(9.372113, -3.635975), (9.176163, -3.481252), (9.04533, -3.415923), (9.000992, -3.395996)],
                knots=[0, 0, 0, 0, 1, 1, 1, 1], degree=3))
            Line((9.000992, -3.395996), (7.876992, -2.971196))
            ThreePointArc((7.876992, -2.971196), (7.571257, -2.694156), (7.536808, -2.283014))
            ThreePointArc((7.536808, -2.283014), (7.646167, -1.884611), (7.734481, -1.48102))
            ThreePointArc((7.734481, -1.48102), (7.956052, -1.132981), (8.355513, -1.029758))
        make_face()
    extrude(amount=PAD_DEPTH)


with BuildPart() as ingranaggio_senza_buco:
    # Sketch006 → Pad002 (new body, symmetric)
    with BuildSketch(Plane(origin=(0, 0, 0), x_dir=(1, 0, 0), z_dir=(0, 0, -1))):
        Circle(SKETCH006_R)
    extrude(amount=PAD002_DEPTH, both=True)

    # Fusion: union Pad
    add(pad.part)


with BuildPart() as ingranaggio_senza_buco_1:
    # Fusion roll: moved
    add(ingranaggio_senza_buco.part.rotate(Axis((0, 0, 0), (1, 0, 0)), FUSION_ROLL_ANGLE))


with BuildPart() as ingranaggio_senza_buco_2:
    # Fusion placement: moved
    add(ingranaggio_senza_buco_1.part)

    # Cut005: cut buco
    add(buco.part, mode=Mode.SUBTRACT)


with BuildPart() as pad007:
    # Sketch011 → Pad007 (new body)
    with BuildSketch(Plane.XZ.offset(-75)):
        Circle(SKETCH011_R)
    extrude(amount=PAD007_DEPTH)


with BuildPart() as scassi_perno:
    # Sketch010 → Pad006 (new body)
    with BuildSketch(Plane.XZ.offset(25)):
        Circle(SKETCH010_R)
    extrude(amount=PAD006_DEPTH)

    # Fusion002: union Pad007
    add(pad007.part)


with BuildPart() as scasso_ruota_dentata:
    # Sketch008 → Pad004 (new body)
    with BuildSketch(Plane.XZ.offset(-3)):
        Circle(SKETCH008_R)
    extrude(amount=PAD004_DEPTH)


with BuildPart() as scassi_ruote_dentate:
    # Sketch009 → Pad005 (new body)
    with BuildSketch(Plane.XZ.offset(-3)):
        with Locations((15.997087, 9e-06)):
            Circle(SKETCH009_R)
    extrude(amount=PAD005_DEPTH)

    # Fusion001: union scasso_ruota_dentata
    add(scasso_ruota_dentata.part)


with BuildPart() as scassi_tutti:
    # Sketch013 → Pad008 (new body)
    with BuildSketch(Plane.XZ.offset(11)):
        with Locations((16.059561, 9e-06)):
            Circle(SKETCH013_R)
    extrude(amount=PAD008_DEPTH)

    # Fusion005: union scassi_perno, scassi_ruote_dentate
    add(scassi_perno.part)
    add(scassi_ruote_dentate.part)


with BuildPart() as cubo:
    # Box → Box (new body)
    with BuildSketch(Plane.XY):
        with Locations((25, 120)):
            Rectangle(BOX_W, BOX_H)
    extrude(amount=BOX_DEPTH)


with BuildPart() as cubo_1:
    # Box pitch: moved
    add(cubo.part.rotate(Axis((0, 0, 0), (0, 1, 0)), BOX_PITCH_ANGLE))


with BuildPart() as cubo_2:
    # Box placement: moved
    add(cubo_1.part.moved(Location((50, -140, 2))))


with BuildPart() as solo_corpo_completo_buchi_viti:
    # Sketch → Loft section 0
    with BuildSketch(Plane.XZ.offset(-90)):
        Circle(SKETCH_R)
    # Sketch001 → Loft section 1
    with BuildSketch(Plane.XZ):
        Circle(SKETCH001_R)
    # Sketch002 → Loft section 2
    with BuildSketch(Plane.XZ.offset(120)):
        Circle(SKETCH002_R)
    loft()

    # Cut: cut Cubo
    add(cubo_2.part, mode=Mode.SUBTRACT)

    # Cut001: cut scassi_tutti
    add(scassi_tutti.part, mode=Mode.SUBTRACT)

    # Cut003: cut buco
    add(buco.part, mode=Mode.SUBTRACT)

    # Cut006: cut ingranaggio_senza_buco
    add(ingranaggio_senza_buco_2.part, mode=Mode.SUBTRACT)

    # Sketch015 → Pocket (cut)
    with BuildSketch(Plane.XY.offset(2)):
        with Locations((-16, 14)):
            Circle(SKETCH015_R)
    pocket = extrude(amount=-POCKET_DEPTH, mode=Mode.SUBTRACT)

    # Mirrored: Pocket across Sketch015 V_Axis
    add(pocket.mirror(Plane(origin=(0, 0, 2), x_dir=(0, 0, 1), z_dir=(1, 0, 0))), mode=Mode.SUBTRACT)


solid = solo_corpo_completo_buchi_viti.part
